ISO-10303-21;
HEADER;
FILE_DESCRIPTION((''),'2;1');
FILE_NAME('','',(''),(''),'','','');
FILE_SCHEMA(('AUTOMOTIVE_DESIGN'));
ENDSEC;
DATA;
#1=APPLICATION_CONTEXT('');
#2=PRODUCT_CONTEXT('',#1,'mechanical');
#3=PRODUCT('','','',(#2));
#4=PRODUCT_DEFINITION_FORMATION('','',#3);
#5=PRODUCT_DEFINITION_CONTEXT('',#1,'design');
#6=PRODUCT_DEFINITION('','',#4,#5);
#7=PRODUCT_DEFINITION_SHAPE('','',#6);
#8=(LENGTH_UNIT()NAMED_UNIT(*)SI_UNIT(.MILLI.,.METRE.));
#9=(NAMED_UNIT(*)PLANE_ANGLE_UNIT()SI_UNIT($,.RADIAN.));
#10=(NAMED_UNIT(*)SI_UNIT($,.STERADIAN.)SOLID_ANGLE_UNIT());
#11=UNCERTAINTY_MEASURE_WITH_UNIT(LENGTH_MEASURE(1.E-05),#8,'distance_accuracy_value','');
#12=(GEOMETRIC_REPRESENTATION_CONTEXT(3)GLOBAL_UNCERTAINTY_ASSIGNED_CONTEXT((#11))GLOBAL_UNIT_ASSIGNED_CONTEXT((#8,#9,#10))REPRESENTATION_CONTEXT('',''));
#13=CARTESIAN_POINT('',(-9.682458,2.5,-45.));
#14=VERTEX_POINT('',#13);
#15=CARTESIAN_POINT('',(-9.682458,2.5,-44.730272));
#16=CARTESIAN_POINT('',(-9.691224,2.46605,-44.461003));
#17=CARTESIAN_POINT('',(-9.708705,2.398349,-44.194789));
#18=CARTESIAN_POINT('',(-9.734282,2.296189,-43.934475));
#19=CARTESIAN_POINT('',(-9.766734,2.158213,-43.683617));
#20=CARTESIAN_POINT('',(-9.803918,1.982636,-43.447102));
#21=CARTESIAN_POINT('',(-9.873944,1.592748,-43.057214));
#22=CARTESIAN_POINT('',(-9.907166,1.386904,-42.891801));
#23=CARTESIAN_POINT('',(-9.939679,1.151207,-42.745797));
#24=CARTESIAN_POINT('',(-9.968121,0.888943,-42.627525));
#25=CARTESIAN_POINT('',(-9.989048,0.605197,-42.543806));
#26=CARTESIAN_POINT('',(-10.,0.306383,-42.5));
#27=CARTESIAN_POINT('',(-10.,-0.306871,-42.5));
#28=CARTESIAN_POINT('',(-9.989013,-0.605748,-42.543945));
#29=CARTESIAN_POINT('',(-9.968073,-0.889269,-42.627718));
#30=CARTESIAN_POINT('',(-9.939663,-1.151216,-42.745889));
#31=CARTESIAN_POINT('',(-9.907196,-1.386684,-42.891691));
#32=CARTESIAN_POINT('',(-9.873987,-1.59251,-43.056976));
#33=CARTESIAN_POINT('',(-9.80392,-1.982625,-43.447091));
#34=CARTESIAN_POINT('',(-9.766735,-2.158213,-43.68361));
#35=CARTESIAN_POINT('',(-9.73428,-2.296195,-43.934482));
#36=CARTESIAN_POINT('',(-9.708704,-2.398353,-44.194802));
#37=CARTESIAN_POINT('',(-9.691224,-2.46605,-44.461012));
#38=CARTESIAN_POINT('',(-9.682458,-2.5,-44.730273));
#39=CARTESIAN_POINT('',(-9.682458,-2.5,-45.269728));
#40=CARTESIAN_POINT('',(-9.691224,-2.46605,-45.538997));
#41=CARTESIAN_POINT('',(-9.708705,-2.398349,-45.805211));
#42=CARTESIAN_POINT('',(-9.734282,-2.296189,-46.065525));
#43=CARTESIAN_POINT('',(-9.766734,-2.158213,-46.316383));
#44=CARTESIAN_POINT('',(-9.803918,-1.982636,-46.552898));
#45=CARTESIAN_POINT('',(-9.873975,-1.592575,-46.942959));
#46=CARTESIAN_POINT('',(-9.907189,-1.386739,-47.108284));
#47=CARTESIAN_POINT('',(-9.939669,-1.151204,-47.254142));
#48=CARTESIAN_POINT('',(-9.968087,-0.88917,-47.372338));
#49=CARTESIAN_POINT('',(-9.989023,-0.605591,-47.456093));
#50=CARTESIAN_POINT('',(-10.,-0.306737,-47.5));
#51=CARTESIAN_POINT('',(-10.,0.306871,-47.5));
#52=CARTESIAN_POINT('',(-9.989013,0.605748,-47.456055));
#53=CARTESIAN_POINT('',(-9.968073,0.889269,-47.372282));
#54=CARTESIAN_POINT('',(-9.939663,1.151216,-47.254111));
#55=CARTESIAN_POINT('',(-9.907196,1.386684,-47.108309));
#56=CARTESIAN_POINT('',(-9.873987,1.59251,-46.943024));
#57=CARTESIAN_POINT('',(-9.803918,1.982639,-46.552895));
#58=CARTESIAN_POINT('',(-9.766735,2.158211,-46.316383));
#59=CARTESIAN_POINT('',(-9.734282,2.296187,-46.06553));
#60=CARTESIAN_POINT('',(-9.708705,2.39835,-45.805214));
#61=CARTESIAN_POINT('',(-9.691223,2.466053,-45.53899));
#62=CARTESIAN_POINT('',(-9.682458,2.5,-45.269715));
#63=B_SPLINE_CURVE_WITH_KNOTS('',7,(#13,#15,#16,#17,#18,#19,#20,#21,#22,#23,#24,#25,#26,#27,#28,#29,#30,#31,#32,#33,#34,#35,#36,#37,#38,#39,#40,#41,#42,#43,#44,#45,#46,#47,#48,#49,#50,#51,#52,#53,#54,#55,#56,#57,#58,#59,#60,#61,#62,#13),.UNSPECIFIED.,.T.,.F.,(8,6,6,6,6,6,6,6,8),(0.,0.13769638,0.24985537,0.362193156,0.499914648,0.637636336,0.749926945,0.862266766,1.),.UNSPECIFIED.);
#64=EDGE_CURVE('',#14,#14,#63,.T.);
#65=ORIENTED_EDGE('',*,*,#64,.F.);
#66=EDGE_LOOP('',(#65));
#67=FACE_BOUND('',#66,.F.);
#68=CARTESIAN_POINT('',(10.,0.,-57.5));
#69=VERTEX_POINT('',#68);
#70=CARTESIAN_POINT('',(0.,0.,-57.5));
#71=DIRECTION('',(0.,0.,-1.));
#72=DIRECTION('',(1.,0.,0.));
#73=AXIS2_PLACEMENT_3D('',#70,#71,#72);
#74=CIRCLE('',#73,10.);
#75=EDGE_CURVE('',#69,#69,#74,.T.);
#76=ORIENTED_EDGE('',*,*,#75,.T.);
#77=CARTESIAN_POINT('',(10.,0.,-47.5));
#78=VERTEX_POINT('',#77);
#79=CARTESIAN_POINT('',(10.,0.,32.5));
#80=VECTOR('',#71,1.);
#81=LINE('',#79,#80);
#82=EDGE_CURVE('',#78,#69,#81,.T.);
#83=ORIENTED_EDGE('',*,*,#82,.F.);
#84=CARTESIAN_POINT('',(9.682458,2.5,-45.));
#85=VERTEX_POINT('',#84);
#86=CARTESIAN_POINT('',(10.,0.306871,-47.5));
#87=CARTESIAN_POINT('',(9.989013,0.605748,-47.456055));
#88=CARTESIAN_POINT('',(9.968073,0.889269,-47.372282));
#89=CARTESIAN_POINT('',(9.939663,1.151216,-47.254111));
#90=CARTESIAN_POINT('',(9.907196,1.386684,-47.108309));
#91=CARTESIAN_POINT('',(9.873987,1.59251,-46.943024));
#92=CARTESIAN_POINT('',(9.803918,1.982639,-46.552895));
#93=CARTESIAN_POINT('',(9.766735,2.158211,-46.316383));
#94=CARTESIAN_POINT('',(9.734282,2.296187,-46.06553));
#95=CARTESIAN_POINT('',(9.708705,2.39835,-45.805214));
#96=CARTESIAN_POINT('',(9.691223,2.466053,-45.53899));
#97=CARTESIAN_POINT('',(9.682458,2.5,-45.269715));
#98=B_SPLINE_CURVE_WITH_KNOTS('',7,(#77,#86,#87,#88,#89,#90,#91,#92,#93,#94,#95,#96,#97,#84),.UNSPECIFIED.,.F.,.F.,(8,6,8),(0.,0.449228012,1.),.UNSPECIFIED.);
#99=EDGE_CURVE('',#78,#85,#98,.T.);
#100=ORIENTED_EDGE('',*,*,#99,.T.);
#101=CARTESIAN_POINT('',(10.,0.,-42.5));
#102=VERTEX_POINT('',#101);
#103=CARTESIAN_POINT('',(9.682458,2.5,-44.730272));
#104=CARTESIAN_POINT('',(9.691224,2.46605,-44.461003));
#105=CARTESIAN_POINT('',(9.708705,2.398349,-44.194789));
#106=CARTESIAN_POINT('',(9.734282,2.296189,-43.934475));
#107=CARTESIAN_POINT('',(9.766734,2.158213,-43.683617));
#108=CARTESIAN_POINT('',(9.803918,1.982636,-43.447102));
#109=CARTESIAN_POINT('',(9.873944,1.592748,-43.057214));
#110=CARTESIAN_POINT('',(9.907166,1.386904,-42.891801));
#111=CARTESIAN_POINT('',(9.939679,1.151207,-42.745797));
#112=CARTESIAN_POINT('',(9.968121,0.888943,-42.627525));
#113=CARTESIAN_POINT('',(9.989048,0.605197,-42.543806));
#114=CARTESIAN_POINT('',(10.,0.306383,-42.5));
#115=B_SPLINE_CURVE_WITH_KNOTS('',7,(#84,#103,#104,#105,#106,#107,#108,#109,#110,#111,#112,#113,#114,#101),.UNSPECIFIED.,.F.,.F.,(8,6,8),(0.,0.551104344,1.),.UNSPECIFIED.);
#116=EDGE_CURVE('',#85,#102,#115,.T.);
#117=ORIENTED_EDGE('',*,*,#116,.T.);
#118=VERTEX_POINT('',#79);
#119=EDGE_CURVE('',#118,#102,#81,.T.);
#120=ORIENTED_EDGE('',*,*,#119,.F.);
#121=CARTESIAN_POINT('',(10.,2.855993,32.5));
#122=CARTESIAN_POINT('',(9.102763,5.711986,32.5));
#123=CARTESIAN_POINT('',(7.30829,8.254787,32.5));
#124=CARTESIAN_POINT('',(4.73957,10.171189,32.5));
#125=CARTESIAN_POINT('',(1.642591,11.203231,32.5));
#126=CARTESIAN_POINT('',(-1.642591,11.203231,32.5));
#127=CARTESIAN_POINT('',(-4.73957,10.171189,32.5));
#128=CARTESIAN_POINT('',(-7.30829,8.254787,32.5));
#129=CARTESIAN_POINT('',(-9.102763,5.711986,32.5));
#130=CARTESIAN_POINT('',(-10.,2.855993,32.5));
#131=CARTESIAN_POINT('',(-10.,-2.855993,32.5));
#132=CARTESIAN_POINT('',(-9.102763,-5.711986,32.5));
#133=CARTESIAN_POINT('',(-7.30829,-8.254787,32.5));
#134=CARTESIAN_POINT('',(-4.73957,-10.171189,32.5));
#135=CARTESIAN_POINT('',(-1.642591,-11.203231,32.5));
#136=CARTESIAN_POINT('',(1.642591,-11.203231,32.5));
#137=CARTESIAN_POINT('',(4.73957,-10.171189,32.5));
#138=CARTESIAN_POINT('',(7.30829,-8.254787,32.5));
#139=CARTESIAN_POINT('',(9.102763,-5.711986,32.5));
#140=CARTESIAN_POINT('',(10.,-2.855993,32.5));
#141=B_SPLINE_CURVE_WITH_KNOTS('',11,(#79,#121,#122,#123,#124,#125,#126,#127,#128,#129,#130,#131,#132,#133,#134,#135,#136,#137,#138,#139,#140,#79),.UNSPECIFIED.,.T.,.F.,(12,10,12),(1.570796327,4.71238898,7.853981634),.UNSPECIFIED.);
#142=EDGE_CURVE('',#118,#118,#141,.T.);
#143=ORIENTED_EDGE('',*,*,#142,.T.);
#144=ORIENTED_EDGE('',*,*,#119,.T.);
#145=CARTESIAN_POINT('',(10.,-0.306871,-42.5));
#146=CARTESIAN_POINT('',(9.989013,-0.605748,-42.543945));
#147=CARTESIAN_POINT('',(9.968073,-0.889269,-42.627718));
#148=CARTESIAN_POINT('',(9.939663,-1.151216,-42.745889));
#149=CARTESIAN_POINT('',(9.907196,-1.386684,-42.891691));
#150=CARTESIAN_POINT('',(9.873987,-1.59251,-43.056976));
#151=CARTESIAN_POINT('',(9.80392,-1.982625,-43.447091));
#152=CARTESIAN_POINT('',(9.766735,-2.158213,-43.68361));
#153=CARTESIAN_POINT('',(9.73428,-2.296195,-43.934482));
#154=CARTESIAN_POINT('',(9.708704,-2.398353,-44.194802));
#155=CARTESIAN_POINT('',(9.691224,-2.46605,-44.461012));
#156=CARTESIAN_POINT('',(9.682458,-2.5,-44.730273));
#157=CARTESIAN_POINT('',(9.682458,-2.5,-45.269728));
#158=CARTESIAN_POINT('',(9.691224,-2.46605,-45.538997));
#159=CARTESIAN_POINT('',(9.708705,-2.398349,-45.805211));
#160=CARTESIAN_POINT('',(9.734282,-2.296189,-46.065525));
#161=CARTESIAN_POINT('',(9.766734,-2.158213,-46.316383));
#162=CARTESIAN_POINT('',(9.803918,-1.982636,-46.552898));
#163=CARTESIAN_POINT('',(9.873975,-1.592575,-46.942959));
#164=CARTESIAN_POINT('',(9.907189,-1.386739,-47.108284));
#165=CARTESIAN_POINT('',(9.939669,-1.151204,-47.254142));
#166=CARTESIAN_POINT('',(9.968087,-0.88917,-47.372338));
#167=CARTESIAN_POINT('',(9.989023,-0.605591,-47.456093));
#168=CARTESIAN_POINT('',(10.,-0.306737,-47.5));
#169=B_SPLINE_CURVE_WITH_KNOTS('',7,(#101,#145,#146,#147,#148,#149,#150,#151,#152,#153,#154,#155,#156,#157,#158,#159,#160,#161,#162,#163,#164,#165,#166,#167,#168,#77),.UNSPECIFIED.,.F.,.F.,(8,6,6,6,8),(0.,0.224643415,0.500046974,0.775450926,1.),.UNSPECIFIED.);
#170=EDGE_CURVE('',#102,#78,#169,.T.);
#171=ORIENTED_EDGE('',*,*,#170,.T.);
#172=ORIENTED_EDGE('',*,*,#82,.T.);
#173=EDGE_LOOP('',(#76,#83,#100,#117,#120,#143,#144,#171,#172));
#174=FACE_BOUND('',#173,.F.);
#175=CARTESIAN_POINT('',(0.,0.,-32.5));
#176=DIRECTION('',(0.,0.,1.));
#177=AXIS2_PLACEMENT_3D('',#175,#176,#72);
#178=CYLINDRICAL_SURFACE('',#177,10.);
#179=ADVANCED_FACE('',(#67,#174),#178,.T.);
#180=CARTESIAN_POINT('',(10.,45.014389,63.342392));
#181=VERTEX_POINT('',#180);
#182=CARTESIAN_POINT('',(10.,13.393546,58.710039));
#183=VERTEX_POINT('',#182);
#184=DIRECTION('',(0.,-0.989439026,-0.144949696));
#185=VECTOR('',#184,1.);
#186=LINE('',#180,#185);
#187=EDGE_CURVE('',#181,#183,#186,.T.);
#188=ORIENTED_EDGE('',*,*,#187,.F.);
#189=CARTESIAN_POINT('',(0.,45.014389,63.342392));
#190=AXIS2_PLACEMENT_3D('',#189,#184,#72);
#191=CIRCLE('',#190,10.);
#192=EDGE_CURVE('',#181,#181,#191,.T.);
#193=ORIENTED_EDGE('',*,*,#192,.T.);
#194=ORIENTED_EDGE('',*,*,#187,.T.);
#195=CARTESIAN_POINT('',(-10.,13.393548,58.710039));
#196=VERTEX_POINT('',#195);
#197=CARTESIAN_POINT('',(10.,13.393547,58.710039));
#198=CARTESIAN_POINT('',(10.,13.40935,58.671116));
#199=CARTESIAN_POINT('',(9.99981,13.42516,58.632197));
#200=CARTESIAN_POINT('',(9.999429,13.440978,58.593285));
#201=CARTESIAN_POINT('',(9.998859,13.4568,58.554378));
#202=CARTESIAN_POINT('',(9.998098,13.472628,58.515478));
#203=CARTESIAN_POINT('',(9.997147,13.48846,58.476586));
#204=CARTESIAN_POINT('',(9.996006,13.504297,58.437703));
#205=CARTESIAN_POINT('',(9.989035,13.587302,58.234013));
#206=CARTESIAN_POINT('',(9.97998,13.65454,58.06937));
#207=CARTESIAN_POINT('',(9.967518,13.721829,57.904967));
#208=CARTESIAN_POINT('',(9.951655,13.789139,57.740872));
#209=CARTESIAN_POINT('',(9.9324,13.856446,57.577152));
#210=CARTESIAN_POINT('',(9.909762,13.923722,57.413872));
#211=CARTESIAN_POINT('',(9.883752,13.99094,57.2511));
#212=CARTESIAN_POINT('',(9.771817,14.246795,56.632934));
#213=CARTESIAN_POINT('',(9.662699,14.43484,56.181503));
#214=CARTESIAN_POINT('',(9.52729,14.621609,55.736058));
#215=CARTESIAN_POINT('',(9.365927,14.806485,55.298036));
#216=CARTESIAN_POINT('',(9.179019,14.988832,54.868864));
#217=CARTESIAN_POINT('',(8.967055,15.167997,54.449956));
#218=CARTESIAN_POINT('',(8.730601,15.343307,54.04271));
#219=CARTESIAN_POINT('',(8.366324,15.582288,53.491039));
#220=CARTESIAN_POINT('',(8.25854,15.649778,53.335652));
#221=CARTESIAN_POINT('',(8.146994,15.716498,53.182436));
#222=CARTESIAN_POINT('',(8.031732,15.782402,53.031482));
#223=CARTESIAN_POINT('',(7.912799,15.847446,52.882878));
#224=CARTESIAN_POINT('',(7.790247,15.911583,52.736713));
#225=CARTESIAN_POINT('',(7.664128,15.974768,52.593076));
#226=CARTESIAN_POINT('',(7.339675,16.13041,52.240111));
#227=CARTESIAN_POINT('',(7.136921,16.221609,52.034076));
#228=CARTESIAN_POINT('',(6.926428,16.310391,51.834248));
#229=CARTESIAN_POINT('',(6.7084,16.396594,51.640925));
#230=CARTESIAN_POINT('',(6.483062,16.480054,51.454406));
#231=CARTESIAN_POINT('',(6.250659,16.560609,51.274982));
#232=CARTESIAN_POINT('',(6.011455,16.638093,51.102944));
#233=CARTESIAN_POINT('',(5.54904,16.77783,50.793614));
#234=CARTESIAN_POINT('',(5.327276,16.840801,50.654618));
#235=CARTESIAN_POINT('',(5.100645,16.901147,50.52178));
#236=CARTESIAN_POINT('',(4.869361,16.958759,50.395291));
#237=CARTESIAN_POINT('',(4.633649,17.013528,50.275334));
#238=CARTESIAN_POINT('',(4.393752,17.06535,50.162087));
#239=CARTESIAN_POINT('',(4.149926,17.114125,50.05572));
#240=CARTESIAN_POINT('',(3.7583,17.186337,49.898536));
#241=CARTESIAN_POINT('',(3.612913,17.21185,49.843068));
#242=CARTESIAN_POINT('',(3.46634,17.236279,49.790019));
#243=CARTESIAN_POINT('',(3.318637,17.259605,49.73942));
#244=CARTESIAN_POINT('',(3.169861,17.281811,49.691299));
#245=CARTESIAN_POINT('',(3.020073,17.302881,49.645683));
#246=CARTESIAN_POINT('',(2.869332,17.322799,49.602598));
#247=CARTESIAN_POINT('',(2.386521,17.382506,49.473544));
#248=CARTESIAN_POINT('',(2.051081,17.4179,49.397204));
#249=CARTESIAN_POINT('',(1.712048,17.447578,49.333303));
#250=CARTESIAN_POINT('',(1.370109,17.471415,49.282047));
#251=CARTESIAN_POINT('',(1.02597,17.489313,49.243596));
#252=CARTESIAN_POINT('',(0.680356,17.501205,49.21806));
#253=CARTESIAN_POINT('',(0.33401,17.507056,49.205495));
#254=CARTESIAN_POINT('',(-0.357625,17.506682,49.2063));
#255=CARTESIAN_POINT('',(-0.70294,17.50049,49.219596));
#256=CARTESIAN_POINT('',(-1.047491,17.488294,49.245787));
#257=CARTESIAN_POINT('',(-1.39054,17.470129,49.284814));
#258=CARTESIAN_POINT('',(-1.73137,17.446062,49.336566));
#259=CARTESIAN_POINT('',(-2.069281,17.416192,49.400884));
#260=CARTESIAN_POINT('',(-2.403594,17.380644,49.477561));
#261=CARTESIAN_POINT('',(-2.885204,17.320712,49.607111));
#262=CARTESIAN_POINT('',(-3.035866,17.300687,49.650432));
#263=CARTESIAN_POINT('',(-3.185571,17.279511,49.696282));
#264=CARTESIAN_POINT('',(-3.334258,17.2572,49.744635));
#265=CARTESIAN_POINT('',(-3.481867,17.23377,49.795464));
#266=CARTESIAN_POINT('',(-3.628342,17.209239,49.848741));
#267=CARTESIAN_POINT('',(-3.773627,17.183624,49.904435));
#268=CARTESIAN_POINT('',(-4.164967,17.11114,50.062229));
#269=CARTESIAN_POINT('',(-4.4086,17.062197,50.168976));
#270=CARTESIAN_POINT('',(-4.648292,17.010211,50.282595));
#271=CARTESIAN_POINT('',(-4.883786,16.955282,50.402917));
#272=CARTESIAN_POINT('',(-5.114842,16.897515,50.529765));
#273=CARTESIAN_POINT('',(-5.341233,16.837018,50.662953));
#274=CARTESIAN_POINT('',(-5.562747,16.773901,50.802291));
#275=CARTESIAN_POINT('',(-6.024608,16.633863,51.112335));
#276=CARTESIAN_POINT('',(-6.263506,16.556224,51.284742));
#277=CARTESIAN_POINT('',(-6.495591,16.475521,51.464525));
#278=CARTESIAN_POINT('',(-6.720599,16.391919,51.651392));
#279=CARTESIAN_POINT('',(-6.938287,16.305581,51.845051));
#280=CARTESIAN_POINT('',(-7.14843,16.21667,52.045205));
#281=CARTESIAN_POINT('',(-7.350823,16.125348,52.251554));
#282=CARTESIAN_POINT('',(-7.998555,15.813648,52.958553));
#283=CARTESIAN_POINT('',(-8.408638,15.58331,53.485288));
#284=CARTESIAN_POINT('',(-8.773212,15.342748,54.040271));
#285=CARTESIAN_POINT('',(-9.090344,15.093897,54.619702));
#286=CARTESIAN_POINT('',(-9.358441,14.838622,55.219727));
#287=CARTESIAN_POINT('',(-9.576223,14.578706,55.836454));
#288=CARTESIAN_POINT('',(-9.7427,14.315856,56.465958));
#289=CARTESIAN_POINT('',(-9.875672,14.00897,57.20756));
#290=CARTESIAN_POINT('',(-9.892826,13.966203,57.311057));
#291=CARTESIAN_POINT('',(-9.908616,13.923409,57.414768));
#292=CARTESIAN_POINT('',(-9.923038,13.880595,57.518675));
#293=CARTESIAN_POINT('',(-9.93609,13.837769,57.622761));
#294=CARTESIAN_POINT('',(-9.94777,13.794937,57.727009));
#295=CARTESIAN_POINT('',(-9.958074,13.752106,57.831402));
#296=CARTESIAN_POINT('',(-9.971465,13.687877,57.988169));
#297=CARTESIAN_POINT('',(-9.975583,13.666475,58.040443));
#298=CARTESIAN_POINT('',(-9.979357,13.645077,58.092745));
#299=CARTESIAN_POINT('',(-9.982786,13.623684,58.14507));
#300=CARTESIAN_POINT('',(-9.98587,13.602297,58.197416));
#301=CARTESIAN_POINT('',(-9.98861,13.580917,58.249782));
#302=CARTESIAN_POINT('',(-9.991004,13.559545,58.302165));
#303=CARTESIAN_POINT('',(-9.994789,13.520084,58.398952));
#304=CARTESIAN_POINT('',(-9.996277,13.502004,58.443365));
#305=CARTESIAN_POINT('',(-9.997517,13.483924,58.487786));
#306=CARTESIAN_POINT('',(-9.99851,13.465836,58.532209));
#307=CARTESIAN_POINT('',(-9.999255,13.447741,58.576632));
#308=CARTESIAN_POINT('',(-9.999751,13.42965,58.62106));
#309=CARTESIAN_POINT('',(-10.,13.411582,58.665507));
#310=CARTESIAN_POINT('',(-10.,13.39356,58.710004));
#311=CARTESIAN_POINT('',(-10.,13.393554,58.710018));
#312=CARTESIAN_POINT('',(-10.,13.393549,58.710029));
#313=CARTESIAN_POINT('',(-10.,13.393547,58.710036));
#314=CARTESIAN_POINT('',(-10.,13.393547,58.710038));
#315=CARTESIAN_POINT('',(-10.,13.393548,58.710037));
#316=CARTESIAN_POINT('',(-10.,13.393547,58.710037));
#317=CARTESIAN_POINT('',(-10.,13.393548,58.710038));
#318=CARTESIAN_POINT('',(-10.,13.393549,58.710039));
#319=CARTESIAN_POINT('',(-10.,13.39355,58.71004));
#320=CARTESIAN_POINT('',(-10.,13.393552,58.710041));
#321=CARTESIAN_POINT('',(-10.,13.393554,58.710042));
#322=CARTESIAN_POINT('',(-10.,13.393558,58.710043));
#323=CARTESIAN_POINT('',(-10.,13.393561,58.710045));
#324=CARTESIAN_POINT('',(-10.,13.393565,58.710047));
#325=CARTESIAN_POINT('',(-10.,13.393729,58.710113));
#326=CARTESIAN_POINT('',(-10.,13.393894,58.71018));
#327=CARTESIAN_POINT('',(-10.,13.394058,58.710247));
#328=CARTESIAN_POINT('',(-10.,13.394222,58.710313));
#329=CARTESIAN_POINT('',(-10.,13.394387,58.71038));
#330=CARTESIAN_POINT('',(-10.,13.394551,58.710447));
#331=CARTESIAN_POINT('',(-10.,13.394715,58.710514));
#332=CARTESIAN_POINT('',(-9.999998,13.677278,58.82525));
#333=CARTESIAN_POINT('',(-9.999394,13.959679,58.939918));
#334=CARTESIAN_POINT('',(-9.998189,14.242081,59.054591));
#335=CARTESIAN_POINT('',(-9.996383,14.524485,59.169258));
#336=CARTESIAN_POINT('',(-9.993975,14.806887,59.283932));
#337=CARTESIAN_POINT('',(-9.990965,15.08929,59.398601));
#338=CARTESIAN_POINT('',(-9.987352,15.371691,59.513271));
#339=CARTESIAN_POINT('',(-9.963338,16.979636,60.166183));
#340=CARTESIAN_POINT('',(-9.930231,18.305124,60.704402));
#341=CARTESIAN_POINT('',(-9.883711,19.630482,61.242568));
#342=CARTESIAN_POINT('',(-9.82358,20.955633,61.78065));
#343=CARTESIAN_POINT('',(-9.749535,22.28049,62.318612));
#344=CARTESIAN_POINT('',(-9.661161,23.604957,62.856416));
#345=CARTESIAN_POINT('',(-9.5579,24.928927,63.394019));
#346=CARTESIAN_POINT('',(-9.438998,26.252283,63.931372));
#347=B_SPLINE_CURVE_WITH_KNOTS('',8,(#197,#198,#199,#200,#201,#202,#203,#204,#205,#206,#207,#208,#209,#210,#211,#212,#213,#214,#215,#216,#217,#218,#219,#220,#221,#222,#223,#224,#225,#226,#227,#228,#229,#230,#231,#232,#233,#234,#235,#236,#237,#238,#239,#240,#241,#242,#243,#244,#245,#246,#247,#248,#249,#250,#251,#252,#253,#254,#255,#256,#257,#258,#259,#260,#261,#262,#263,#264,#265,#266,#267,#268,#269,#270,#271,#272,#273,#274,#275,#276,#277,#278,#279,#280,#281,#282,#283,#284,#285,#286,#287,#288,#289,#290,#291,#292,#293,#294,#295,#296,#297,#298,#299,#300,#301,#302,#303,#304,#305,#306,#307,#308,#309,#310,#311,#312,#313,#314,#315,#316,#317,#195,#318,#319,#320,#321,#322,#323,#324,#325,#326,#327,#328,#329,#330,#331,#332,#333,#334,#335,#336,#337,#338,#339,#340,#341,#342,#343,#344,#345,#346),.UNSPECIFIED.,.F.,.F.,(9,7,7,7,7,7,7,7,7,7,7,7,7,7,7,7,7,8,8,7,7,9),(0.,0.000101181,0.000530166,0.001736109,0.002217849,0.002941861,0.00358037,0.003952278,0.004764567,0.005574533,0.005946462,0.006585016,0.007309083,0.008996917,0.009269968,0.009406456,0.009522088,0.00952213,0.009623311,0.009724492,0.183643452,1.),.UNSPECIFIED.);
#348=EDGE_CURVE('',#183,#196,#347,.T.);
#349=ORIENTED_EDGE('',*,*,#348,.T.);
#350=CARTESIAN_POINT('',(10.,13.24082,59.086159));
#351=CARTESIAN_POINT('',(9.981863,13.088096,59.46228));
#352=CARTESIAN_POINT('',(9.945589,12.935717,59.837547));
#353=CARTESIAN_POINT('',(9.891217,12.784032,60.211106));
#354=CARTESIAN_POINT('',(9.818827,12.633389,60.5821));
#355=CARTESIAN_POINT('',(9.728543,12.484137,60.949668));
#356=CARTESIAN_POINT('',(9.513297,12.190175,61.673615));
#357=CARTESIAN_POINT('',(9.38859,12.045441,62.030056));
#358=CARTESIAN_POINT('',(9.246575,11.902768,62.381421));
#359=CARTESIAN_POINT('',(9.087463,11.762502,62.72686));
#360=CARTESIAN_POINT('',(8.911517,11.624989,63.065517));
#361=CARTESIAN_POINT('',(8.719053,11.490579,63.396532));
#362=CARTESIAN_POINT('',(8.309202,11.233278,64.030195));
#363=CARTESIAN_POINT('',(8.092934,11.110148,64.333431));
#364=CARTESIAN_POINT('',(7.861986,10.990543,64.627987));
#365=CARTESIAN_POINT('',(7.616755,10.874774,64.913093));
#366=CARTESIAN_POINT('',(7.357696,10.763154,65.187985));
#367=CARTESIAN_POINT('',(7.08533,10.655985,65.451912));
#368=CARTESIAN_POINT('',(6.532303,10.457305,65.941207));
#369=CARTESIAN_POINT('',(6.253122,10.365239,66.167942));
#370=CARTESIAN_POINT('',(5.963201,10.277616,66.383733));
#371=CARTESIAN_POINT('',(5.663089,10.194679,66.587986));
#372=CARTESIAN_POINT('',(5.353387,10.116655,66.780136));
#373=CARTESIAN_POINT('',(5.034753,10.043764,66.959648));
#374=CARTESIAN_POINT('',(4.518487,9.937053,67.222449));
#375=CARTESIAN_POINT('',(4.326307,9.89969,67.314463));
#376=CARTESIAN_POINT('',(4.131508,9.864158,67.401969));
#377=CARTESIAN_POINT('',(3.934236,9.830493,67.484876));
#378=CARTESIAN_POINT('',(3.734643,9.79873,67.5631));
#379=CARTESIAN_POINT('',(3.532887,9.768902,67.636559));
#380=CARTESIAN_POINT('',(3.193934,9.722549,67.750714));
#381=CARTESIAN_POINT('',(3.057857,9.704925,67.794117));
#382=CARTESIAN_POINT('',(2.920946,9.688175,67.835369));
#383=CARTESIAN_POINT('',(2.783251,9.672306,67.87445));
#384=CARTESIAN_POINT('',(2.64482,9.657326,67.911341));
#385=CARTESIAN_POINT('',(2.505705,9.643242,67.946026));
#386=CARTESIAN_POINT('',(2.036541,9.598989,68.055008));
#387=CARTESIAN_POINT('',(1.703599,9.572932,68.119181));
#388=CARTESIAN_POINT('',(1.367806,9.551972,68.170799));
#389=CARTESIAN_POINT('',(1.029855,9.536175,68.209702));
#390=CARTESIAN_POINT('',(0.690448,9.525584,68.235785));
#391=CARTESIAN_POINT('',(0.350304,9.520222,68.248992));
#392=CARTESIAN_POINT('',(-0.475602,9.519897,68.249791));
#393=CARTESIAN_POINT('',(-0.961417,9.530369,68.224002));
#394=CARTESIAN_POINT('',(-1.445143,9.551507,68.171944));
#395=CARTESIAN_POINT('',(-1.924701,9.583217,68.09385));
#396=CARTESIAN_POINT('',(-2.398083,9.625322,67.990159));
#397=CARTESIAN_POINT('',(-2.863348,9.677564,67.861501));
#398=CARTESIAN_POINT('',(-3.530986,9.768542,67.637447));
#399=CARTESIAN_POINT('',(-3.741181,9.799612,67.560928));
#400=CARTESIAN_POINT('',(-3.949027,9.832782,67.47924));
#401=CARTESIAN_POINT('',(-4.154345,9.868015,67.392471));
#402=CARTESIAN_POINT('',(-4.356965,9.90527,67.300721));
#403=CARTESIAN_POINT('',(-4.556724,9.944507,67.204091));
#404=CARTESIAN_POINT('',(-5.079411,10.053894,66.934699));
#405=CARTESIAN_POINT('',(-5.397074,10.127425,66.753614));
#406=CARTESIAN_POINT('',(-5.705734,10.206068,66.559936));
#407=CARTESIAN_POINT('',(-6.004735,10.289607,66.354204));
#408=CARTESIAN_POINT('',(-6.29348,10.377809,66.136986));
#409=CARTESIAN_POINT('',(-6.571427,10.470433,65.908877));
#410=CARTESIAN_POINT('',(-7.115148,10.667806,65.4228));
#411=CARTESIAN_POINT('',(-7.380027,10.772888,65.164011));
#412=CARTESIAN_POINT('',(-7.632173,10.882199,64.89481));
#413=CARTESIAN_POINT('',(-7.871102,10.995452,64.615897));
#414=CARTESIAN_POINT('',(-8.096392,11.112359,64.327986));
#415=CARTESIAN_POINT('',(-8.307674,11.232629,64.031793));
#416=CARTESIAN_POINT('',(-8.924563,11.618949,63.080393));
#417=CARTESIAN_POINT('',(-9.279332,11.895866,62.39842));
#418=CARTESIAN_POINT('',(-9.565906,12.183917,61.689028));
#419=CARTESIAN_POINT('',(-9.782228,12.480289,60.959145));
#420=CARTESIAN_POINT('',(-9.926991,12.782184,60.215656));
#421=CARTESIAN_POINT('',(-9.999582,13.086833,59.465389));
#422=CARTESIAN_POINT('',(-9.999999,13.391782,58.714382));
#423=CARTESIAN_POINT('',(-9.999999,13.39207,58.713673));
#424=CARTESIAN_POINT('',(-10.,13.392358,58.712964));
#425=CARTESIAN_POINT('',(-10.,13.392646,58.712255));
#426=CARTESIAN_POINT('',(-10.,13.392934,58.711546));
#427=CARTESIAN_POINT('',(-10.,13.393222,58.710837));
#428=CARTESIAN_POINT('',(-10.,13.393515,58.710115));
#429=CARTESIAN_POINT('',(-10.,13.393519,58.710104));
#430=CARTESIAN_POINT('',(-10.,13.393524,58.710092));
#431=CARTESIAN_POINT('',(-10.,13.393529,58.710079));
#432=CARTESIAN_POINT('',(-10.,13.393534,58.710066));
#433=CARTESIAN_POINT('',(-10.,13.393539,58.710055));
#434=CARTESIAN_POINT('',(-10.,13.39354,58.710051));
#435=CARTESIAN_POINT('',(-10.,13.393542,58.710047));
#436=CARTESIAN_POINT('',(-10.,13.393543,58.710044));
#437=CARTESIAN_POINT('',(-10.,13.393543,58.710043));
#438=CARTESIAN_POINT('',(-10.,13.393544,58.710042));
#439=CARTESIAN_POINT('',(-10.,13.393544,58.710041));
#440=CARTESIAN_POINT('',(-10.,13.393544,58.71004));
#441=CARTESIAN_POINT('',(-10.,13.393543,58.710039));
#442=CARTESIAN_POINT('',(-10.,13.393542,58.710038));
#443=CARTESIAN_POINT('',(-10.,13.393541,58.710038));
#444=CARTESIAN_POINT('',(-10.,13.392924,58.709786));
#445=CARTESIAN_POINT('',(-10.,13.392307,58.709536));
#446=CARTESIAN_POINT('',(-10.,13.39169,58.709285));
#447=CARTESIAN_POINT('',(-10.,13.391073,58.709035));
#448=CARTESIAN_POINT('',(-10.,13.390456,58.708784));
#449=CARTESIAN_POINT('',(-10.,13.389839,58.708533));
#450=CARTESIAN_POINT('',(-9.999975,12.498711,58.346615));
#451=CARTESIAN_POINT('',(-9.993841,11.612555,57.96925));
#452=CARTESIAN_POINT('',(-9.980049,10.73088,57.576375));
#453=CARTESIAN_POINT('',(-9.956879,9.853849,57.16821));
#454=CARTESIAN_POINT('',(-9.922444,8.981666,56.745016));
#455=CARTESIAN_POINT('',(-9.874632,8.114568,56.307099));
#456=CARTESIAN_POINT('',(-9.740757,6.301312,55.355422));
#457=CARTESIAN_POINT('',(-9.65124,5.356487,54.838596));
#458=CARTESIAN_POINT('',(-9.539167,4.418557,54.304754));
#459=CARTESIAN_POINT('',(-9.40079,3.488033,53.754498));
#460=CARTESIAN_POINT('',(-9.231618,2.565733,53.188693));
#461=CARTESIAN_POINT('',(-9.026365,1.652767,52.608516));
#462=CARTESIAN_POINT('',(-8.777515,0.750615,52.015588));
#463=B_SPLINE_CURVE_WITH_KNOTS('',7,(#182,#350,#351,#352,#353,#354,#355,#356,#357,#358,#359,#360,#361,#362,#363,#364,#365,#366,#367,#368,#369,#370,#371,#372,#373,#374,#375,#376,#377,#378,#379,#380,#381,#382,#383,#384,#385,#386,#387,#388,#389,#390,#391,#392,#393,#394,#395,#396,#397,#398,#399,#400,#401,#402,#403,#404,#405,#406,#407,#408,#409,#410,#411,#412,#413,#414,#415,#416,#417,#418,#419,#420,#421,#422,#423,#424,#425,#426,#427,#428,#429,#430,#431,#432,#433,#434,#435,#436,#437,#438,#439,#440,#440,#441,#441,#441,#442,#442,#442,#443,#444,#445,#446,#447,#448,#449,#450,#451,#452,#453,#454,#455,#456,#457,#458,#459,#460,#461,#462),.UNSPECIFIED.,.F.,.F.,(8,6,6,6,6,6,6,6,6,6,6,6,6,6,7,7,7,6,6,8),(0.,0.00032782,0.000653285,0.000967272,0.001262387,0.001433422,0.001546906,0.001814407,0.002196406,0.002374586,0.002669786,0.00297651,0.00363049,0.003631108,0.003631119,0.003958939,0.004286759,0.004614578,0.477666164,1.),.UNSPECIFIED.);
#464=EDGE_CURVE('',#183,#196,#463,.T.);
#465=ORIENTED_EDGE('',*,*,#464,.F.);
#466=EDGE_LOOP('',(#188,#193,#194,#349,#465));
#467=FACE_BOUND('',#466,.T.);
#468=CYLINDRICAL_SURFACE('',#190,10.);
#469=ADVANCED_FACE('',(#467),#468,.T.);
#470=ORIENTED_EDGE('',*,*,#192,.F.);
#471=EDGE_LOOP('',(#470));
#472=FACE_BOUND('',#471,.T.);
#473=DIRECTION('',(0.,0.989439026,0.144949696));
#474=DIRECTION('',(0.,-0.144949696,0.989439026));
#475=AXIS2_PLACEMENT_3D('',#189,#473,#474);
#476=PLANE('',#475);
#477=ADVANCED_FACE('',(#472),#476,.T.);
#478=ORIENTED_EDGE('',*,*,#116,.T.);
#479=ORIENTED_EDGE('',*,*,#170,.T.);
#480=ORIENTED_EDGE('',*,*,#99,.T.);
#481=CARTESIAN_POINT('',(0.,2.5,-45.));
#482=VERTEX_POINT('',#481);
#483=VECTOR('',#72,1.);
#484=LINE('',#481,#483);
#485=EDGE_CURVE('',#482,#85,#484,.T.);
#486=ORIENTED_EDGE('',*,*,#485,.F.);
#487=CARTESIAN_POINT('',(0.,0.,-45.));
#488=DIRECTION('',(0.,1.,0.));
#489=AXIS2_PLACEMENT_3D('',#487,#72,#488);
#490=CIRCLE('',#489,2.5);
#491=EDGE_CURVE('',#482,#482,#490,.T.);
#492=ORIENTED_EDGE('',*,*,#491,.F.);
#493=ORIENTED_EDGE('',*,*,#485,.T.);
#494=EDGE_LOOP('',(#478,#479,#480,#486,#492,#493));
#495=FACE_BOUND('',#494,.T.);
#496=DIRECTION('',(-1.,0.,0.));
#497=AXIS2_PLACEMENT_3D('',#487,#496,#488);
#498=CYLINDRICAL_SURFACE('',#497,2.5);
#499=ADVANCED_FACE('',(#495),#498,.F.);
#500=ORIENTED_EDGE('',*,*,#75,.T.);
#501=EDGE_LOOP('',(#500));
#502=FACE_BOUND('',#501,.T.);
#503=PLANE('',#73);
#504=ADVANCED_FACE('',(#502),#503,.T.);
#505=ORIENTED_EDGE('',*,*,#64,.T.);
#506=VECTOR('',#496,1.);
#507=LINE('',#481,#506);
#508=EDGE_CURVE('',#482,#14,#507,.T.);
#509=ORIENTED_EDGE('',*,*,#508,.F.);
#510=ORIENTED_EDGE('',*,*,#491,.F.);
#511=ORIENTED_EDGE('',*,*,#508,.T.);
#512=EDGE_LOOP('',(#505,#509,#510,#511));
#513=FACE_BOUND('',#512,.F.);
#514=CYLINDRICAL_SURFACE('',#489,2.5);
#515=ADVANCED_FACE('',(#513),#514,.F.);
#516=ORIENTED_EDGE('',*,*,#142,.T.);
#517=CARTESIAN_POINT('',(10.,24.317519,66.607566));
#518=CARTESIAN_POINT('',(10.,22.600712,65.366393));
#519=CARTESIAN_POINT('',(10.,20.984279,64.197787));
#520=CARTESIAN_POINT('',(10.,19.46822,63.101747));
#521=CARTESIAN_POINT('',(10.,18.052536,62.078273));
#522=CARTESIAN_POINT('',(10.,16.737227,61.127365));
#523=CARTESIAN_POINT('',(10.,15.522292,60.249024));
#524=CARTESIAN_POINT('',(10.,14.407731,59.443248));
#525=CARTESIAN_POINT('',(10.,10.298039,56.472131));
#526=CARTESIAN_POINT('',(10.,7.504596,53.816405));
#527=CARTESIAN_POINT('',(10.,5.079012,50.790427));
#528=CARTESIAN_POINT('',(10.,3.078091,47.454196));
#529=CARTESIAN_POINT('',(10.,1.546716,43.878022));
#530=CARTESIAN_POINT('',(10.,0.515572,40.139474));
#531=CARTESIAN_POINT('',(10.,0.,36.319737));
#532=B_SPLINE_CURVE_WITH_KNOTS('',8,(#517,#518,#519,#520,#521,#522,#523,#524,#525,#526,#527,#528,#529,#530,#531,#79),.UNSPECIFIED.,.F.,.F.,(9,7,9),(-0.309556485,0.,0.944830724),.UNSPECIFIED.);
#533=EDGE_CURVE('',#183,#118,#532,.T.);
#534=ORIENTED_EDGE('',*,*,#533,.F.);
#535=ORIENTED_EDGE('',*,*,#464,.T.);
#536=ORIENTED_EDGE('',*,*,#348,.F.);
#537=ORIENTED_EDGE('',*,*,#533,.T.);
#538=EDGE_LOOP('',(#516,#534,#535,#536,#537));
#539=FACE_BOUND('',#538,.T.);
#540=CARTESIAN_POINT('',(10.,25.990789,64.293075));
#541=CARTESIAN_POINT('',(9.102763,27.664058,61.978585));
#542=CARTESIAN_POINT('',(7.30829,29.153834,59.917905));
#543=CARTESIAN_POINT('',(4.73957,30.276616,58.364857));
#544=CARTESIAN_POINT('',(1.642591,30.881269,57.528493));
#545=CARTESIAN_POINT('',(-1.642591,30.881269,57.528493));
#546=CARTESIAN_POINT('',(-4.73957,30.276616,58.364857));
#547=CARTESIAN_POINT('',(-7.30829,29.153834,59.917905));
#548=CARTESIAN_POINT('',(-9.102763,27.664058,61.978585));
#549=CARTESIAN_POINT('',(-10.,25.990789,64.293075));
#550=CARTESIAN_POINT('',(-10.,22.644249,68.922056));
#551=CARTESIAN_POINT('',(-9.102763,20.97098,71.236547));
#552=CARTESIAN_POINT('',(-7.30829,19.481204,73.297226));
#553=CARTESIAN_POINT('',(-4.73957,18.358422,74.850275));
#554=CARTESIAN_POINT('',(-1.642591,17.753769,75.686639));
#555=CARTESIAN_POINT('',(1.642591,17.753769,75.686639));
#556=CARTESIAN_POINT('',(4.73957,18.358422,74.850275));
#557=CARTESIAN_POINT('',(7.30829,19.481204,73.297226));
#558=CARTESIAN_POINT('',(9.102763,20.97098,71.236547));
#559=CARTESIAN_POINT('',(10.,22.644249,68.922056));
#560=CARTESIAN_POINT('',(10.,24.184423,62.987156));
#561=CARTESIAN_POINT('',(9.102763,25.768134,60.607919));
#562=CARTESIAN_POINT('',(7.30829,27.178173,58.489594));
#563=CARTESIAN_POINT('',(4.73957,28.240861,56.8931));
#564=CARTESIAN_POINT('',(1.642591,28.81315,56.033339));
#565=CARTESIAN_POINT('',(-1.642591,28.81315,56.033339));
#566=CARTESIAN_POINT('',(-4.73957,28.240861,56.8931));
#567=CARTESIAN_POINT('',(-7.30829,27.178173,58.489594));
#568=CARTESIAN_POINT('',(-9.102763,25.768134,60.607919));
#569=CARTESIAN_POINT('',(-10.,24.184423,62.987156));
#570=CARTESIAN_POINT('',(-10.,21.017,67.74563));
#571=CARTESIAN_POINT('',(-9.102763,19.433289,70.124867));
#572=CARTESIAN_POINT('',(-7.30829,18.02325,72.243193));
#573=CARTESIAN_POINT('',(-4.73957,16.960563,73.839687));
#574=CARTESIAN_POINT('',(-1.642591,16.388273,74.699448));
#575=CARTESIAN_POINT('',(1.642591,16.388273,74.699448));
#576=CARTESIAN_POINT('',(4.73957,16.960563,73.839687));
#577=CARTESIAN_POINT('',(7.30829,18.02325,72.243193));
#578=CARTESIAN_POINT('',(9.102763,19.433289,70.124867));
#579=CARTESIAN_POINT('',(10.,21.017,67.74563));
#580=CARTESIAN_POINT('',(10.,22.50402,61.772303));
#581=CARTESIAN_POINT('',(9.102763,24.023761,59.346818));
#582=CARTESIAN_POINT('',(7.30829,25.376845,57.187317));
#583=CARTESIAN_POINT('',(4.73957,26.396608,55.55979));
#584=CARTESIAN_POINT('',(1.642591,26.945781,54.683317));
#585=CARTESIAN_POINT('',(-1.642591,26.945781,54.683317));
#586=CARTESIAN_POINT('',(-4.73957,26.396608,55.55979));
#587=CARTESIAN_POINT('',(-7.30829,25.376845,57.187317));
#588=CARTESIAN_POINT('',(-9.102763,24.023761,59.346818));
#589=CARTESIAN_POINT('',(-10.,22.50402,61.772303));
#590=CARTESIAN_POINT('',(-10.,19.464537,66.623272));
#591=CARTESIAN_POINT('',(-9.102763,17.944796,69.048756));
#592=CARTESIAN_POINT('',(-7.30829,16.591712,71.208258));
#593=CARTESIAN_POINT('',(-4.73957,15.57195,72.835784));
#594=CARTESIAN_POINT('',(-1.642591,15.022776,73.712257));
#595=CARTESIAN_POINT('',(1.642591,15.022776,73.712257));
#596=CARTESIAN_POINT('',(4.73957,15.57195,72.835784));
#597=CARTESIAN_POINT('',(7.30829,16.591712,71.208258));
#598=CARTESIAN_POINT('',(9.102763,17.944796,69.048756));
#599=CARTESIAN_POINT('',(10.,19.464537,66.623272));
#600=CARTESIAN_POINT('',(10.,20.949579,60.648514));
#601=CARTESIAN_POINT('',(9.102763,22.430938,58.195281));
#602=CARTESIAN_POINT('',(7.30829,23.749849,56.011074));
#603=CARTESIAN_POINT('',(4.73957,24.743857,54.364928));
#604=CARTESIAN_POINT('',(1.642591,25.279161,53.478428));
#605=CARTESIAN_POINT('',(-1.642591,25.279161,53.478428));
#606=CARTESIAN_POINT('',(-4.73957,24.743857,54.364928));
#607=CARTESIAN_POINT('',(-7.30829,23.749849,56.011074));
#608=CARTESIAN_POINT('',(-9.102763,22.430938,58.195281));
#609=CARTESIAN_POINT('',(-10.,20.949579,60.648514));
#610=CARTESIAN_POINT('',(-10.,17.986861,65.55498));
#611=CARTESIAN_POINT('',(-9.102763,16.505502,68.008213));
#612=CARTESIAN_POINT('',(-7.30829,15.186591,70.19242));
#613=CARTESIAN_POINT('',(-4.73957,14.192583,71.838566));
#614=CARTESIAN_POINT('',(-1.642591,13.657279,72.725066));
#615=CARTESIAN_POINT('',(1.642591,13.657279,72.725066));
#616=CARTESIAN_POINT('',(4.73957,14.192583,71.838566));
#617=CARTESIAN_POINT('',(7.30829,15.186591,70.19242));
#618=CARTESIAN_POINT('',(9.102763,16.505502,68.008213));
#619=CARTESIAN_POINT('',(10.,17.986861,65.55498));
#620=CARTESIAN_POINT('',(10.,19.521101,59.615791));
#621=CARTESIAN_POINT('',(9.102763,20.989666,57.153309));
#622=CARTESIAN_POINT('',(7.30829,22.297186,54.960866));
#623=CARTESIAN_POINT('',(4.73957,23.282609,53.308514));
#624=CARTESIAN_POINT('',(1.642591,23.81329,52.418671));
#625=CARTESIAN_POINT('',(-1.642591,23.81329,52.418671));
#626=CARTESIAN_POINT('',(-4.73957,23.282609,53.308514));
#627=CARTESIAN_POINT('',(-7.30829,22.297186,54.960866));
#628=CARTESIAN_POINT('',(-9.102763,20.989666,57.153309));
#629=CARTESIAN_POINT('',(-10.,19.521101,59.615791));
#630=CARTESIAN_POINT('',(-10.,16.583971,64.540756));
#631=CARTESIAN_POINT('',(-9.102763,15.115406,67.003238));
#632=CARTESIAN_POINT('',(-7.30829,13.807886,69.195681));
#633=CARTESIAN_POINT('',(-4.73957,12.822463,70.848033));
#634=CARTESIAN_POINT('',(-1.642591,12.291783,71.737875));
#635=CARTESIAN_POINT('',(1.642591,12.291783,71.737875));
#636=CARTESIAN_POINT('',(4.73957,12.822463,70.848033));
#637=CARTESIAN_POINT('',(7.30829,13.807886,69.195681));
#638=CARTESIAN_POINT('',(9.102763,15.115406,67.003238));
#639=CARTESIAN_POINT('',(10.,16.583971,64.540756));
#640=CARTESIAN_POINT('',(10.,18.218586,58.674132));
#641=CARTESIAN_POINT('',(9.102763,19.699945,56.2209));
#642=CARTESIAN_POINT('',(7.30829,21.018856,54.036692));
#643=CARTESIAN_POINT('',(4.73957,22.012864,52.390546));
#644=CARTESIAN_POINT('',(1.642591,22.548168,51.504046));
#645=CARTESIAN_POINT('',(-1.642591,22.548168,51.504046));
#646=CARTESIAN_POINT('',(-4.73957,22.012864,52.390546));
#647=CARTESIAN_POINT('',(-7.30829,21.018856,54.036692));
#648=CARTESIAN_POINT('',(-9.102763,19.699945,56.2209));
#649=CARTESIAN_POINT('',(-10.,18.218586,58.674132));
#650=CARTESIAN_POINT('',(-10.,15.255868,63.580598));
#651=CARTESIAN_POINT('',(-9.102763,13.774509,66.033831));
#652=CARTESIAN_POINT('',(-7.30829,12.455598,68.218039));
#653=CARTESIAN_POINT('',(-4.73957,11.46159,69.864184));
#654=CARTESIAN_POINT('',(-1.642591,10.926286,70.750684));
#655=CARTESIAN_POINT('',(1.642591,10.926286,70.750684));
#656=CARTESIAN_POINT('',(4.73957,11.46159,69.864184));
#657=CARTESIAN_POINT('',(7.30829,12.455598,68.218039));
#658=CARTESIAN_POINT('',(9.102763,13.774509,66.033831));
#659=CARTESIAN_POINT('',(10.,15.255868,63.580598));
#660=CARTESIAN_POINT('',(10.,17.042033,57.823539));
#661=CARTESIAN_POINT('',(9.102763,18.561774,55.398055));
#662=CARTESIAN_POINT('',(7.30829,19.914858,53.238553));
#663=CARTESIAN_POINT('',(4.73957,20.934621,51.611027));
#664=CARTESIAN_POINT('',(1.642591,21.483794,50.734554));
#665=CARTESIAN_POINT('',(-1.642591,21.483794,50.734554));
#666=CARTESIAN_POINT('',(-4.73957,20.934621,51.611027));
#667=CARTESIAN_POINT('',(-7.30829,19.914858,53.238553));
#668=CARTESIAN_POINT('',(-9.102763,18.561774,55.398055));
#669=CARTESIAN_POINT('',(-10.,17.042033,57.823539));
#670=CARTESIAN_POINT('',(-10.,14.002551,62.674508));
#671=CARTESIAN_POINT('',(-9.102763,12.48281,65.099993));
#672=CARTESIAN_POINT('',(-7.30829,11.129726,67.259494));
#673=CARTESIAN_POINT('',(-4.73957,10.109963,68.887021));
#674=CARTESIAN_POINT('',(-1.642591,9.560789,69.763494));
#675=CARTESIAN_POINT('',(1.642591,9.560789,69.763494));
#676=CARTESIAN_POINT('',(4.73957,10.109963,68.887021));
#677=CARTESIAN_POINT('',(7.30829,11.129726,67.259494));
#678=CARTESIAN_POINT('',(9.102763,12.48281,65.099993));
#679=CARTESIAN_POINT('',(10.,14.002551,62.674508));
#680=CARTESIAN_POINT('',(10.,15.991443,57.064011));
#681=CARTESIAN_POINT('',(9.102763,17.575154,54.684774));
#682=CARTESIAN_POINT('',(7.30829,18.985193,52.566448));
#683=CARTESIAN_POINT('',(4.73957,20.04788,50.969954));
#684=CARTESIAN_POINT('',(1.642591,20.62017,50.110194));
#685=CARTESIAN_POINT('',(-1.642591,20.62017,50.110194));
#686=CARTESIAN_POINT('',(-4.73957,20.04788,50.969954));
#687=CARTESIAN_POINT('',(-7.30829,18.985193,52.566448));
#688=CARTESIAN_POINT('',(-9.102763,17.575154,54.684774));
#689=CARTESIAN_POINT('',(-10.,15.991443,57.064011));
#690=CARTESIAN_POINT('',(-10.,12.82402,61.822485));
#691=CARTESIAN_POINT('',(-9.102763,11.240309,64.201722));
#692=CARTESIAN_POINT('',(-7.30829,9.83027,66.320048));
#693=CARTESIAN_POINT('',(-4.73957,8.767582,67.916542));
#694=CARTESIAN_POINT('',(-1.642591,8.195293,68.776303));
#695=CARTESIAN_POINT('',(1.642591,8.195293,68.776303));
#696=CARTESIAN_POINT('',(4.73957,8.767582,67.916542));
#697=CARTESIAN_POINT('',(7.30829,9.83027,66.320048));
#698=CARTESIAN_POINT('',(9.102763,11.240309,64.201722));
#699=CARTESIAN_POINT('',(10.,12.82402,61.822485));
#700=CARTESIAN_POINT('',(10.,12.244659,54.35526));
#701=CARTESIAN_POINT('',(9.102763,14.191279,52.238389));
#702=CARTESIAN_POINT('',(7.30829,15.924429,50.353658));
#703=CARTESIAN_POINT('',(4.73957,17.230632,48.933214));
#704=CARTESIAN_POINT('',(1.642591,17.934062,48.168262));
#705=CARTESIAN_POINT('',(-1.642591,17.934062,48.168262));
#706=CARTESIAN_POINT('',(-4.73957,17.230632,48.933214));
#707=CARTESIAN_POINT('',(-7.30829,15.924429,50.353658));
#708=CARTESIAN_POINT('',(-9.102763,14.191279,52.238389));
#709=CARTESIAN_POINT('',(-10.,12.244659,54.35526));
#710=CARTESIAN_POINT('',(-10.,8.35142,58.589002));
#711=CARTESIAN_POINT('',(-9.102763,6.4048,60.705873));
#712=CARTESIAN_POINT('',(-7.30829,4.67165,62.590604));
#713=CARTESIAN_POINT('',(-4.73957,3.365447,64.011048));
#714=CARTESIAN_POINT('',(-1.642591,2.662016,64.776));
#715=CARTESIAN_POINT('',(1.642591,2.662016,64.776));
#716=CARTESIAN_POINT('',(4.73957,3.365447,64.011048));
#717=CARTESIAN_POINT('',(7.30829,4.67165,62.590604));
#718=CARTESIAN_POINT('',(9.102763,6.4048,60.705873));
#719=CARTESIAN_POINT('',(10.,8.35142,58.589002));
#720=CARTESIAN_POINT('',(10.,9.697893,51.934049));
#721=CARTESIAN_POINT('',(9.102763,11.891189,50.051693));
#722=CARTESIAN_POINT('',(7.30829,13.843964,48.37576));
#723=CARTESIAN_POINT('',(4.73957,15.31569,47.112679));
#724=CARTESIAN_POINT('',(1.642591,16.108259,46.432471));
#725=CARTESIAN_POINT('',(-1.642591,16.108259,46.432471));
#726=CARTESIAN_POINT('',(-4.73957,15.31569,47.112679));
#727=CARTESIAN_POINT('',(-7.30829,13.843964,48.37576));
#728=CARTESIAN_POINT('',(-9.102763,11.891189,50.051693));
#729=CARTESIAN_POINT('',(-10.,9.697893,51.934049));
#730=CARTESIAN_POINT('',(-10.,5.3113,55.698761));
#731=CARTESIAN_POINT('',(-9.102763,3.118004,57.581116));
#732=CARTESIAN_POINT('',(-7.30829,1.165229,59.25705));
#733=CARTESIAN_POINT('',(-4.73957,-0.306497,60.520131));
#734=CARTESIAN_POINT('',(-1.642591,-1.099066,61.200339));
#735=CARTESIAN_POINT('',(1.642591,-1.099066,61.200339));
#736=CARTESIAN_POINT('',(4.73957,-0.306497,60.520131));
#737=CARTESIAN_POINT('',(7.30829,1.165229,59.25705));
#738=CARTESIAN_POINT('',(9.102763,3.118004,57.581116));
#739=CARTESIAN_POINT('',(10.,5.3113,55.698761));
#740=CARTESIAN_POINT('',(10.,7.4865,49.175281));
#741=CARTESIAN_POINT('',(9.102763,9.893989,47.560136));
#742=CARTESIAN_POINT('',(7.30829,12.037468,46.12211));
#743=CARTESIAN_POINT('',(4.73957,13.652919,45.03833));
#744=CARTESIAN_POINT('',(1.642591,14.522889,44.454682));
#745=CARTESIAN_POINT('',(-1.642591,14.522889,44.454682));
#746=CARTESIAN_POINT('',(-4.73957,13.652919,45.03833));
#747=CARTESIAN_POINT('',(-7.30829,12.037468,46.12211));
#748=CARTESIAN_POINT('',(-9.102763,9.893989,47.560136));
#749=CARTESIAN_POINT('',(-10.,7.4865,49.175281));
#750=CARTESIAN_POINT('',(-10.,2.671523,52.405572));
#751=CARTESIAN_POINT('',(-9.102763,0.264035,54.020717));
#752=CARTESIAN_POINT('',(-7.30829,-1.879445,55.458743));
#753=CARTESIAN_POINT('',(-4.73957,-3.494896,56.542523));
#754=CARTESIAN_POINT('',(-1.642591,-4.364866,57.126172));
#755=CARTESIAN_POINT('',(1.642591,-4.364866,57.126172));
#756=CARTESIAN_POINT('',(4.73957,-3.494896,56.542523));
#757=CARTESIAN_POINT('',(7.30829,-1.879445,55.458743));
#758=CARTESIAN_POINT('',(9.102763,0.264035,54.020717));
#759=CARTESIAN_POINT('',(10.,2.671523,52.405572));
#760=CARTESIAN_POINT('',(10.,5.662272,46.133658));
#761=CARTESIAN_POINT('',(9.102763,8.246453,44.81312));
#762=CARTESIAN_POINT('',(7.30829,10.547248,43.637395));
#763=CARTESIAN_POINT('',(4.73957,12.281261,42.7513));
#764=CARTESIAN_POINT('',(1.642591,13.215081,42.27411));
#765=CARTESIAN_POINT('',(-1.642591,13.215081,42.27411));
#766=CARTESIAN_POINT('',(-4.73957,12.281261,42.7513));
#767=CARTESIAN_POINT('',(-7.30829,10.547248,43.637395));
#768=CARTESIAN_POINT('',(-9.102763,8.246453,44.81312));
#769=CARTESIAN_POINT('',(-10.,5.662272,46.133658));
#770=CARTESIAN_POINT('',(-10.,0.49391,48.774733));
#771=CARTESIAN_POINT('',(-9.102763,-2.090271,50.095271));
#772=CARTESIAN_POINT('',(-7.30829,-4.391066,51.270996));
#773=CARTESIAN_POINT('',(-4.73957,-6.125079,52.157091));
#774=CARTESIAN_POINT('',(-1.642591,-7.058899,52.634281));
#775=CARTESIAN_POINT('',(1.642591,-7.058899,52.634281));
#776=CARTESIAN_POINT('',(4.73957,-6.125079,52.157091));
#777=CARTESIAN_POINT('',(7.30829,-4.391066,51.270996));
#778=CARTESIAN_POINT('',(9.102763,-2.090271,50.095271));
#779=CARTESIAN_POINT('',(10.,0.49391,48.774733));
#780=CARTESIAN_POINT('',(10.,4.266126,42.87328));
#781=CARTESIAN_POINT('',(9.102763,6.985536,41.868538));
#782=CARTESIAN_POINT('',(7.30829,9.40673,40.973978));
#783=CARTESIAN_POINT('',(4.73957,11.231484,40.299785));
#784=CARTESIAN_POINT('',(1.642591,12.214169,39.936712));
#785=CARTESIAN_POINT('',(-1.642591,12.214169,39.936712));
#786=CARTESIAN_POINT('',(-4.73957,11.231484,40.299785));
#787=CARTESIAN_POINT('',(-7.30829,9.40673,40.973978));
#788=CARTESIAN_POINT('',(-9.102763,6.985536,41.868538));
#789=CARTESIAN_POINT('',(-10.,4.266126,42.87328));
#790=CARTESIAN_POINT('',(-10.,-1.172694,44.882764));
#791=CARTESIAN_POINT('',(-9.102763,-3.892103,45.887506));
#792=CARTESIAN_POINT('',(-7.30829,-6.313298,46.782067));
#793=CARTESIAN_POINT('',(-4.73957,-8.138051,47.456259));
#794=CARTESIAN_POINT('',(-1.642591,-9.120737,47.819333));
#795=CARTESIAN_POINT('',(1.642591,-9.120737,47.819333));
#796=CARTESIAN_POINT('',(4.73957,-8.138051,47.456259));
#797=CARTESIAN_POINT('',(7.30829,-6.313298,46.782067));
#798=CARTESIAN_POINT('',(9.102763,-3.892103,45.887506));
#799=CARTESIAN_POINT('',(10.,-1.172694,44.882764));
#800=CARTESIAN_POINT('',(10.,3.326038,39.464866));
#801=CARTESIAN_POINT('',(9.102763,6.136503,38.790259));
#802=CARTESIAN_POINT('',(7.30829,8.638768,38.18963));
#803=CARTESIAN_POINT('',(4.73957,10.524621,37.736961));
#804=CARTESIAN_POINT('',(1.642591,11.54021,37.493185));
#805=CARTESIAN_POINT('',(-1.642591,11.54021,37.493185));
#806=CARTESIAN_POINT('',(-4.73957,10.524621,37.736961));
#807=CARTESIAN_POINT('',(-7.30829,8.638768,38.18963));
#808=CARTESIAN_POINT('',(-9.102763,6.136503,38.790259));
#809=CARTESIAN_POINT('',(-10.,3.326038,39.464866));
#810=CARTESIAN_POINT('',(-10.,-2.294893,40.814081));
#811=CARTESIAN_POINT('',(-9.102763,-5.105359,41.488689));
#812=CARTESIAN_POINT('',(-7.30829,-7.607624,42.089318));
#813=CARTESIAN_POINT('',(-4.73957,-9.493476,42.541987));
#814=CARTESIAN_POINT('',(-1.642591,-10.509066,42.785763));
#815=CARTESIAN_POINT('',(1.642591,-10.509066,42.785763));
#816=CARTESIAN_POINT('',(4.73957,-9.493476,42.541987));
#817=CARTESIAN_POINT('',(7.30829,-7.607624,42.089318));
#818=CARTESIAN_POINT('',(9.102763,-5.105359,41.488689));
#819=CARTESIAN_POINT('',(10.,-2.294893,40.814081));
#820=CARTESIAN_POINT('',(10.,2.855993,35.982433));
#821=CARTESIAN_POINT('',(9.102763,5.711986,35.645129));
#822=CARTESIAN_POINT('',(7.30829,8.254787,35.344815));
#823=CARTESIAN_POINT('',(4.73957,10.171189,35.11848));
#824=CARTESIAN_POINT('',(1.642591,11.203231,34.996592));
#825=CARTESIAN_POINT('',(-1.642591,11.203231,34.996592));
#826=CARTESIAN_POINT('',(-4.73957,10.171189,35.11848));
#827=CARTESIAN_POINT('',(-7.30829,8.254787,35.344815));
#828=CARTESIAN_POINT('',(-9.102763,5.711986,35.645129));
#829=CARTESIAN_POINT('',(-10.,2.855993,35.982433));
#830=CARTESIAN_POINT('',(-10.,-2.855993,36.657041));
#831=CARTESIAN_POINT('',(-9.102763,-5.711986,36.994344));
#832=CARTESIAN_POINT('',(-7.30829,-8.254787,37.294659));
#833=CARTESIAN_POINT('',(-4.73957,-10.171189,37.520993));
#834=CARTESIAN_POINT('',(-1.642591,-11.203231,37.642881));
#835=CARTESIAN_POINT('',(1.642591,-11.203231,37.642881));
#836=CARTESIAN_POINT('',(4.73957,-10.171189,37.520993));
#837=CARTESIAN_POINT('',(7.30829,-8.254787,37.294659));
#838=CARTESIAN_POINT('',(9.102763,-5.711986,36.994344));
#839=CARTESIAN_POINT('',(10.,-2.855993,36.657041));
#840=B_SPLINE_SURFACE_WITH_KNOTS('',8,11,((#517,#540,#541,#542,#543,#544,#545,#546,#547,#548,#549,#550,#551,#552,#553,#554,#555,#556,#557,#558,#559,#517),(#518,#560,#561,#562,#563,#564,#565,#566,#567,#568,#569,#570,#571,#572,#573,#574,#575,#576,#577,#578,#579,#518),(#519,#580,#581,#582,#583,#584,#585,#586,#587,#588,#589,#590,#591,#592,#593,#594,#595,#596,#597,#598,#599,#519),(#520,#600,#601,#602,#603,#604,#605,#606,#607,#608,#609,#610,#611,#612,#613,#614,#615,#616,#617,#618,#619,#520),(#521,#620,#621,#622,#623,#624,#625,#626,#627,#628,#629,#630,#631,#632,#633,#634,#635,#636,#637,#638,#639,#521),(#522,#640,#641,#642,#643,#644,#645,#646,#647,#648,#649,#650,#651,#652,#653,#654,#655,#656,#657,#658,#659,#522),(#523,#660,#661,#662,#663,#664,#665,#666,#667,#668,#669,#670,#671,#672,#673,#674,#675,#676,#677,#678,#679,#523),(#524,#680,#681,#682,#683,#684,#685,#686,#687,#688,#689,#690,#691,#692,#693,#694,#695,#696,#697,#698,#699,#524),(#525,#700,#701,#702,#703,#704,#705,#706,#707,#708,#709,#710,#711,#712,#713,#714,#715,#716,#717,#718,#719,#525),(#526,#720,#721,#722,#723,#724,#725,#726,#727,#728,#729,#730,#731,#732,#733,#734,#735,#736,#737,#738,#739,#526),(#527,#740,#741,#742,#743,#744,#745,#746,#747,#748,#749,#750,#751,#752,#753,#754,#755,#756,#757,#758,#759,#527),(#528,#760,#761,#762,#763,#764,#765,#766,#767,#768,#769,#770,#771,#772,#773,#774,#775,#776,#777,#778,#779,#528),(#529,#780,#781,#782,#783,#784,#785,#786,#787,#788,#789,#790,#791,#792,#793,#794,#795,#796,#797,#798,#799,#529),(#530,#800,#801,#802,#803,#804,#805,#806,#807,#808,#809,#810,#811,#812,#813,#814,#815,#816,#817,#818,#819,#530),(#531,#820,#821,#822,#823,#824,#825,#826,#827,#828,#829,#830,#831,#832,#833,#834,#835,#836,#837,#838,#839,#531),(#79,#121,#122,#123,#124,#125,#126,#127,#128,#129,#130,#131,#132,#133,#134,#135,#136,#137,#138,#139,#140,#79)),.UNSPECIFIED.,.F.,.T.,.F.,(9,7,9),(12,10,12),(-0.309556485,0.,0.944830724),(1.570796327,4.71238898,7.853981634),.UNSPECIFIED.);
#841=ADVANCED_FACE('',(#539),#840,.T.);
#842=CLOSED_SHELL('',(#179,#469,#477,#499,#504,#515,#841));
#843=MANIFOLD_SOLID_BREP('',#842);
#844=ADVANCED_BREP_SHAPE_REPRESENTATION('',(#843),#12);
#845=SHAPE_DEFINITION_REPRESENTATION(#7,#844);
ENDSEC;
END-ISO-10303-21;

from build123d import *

# Parameters (mm, degrees)
F0_R     = 10
F3_R     = 10
F4_DEPTH = 25
F5_R     = 2.5
F6_DEPTH = 25
F7_DEPTH = 25


with BuildPart() as f2:
    # F2: sweep along a path in F1
    with BuildLine(Plane.YZ) as f2_path:
        Line((45.0143888593, 63.3423924446), (13.3935455233, 58.710038662))
        ThreePointArc((13.3935455233, 58.710038662), (3.5423817202, 47.2169391208), (0, 32.5))
        Line((0, 32.5), (0, 0))
        Line((0, 0), (0, -32.5))
    # F0 (on Top) → F2 (sweep)
    with BuildSketch(Plane.XY):
        Circle(F0_R)
    sweep(path=f2_path.line, transition=Transition.RIGHT)

    # F3 (on face) → F4 (join)
    with BuildSketch(Plane(origin=(0, 0, -32.5), x_dir=(1, 0, 0), z_dir=(0, 0, -1))):
        Circle(F3_R)
    extrude(amount=F4_DEPTH)

    # F5 (on Right) → F6 (cut)
    with BuildSketch(Plane.YZ):
        with Locations((0, -45)):
            Circle(F5_R)
    extrude(amount=-F6_DEPTH, mode=Mode.SUBTRACT)

    # F7 (cut): a face of the model
    f7_faces = [f2.faces().sort_by_distance(p)[0] for p in [
        (0, 0, -45),
    ]]
    extrude(f7_faces, amount=-F7_DEPTH, mode=Mode.SUBTRACT)


solid = f2.part
